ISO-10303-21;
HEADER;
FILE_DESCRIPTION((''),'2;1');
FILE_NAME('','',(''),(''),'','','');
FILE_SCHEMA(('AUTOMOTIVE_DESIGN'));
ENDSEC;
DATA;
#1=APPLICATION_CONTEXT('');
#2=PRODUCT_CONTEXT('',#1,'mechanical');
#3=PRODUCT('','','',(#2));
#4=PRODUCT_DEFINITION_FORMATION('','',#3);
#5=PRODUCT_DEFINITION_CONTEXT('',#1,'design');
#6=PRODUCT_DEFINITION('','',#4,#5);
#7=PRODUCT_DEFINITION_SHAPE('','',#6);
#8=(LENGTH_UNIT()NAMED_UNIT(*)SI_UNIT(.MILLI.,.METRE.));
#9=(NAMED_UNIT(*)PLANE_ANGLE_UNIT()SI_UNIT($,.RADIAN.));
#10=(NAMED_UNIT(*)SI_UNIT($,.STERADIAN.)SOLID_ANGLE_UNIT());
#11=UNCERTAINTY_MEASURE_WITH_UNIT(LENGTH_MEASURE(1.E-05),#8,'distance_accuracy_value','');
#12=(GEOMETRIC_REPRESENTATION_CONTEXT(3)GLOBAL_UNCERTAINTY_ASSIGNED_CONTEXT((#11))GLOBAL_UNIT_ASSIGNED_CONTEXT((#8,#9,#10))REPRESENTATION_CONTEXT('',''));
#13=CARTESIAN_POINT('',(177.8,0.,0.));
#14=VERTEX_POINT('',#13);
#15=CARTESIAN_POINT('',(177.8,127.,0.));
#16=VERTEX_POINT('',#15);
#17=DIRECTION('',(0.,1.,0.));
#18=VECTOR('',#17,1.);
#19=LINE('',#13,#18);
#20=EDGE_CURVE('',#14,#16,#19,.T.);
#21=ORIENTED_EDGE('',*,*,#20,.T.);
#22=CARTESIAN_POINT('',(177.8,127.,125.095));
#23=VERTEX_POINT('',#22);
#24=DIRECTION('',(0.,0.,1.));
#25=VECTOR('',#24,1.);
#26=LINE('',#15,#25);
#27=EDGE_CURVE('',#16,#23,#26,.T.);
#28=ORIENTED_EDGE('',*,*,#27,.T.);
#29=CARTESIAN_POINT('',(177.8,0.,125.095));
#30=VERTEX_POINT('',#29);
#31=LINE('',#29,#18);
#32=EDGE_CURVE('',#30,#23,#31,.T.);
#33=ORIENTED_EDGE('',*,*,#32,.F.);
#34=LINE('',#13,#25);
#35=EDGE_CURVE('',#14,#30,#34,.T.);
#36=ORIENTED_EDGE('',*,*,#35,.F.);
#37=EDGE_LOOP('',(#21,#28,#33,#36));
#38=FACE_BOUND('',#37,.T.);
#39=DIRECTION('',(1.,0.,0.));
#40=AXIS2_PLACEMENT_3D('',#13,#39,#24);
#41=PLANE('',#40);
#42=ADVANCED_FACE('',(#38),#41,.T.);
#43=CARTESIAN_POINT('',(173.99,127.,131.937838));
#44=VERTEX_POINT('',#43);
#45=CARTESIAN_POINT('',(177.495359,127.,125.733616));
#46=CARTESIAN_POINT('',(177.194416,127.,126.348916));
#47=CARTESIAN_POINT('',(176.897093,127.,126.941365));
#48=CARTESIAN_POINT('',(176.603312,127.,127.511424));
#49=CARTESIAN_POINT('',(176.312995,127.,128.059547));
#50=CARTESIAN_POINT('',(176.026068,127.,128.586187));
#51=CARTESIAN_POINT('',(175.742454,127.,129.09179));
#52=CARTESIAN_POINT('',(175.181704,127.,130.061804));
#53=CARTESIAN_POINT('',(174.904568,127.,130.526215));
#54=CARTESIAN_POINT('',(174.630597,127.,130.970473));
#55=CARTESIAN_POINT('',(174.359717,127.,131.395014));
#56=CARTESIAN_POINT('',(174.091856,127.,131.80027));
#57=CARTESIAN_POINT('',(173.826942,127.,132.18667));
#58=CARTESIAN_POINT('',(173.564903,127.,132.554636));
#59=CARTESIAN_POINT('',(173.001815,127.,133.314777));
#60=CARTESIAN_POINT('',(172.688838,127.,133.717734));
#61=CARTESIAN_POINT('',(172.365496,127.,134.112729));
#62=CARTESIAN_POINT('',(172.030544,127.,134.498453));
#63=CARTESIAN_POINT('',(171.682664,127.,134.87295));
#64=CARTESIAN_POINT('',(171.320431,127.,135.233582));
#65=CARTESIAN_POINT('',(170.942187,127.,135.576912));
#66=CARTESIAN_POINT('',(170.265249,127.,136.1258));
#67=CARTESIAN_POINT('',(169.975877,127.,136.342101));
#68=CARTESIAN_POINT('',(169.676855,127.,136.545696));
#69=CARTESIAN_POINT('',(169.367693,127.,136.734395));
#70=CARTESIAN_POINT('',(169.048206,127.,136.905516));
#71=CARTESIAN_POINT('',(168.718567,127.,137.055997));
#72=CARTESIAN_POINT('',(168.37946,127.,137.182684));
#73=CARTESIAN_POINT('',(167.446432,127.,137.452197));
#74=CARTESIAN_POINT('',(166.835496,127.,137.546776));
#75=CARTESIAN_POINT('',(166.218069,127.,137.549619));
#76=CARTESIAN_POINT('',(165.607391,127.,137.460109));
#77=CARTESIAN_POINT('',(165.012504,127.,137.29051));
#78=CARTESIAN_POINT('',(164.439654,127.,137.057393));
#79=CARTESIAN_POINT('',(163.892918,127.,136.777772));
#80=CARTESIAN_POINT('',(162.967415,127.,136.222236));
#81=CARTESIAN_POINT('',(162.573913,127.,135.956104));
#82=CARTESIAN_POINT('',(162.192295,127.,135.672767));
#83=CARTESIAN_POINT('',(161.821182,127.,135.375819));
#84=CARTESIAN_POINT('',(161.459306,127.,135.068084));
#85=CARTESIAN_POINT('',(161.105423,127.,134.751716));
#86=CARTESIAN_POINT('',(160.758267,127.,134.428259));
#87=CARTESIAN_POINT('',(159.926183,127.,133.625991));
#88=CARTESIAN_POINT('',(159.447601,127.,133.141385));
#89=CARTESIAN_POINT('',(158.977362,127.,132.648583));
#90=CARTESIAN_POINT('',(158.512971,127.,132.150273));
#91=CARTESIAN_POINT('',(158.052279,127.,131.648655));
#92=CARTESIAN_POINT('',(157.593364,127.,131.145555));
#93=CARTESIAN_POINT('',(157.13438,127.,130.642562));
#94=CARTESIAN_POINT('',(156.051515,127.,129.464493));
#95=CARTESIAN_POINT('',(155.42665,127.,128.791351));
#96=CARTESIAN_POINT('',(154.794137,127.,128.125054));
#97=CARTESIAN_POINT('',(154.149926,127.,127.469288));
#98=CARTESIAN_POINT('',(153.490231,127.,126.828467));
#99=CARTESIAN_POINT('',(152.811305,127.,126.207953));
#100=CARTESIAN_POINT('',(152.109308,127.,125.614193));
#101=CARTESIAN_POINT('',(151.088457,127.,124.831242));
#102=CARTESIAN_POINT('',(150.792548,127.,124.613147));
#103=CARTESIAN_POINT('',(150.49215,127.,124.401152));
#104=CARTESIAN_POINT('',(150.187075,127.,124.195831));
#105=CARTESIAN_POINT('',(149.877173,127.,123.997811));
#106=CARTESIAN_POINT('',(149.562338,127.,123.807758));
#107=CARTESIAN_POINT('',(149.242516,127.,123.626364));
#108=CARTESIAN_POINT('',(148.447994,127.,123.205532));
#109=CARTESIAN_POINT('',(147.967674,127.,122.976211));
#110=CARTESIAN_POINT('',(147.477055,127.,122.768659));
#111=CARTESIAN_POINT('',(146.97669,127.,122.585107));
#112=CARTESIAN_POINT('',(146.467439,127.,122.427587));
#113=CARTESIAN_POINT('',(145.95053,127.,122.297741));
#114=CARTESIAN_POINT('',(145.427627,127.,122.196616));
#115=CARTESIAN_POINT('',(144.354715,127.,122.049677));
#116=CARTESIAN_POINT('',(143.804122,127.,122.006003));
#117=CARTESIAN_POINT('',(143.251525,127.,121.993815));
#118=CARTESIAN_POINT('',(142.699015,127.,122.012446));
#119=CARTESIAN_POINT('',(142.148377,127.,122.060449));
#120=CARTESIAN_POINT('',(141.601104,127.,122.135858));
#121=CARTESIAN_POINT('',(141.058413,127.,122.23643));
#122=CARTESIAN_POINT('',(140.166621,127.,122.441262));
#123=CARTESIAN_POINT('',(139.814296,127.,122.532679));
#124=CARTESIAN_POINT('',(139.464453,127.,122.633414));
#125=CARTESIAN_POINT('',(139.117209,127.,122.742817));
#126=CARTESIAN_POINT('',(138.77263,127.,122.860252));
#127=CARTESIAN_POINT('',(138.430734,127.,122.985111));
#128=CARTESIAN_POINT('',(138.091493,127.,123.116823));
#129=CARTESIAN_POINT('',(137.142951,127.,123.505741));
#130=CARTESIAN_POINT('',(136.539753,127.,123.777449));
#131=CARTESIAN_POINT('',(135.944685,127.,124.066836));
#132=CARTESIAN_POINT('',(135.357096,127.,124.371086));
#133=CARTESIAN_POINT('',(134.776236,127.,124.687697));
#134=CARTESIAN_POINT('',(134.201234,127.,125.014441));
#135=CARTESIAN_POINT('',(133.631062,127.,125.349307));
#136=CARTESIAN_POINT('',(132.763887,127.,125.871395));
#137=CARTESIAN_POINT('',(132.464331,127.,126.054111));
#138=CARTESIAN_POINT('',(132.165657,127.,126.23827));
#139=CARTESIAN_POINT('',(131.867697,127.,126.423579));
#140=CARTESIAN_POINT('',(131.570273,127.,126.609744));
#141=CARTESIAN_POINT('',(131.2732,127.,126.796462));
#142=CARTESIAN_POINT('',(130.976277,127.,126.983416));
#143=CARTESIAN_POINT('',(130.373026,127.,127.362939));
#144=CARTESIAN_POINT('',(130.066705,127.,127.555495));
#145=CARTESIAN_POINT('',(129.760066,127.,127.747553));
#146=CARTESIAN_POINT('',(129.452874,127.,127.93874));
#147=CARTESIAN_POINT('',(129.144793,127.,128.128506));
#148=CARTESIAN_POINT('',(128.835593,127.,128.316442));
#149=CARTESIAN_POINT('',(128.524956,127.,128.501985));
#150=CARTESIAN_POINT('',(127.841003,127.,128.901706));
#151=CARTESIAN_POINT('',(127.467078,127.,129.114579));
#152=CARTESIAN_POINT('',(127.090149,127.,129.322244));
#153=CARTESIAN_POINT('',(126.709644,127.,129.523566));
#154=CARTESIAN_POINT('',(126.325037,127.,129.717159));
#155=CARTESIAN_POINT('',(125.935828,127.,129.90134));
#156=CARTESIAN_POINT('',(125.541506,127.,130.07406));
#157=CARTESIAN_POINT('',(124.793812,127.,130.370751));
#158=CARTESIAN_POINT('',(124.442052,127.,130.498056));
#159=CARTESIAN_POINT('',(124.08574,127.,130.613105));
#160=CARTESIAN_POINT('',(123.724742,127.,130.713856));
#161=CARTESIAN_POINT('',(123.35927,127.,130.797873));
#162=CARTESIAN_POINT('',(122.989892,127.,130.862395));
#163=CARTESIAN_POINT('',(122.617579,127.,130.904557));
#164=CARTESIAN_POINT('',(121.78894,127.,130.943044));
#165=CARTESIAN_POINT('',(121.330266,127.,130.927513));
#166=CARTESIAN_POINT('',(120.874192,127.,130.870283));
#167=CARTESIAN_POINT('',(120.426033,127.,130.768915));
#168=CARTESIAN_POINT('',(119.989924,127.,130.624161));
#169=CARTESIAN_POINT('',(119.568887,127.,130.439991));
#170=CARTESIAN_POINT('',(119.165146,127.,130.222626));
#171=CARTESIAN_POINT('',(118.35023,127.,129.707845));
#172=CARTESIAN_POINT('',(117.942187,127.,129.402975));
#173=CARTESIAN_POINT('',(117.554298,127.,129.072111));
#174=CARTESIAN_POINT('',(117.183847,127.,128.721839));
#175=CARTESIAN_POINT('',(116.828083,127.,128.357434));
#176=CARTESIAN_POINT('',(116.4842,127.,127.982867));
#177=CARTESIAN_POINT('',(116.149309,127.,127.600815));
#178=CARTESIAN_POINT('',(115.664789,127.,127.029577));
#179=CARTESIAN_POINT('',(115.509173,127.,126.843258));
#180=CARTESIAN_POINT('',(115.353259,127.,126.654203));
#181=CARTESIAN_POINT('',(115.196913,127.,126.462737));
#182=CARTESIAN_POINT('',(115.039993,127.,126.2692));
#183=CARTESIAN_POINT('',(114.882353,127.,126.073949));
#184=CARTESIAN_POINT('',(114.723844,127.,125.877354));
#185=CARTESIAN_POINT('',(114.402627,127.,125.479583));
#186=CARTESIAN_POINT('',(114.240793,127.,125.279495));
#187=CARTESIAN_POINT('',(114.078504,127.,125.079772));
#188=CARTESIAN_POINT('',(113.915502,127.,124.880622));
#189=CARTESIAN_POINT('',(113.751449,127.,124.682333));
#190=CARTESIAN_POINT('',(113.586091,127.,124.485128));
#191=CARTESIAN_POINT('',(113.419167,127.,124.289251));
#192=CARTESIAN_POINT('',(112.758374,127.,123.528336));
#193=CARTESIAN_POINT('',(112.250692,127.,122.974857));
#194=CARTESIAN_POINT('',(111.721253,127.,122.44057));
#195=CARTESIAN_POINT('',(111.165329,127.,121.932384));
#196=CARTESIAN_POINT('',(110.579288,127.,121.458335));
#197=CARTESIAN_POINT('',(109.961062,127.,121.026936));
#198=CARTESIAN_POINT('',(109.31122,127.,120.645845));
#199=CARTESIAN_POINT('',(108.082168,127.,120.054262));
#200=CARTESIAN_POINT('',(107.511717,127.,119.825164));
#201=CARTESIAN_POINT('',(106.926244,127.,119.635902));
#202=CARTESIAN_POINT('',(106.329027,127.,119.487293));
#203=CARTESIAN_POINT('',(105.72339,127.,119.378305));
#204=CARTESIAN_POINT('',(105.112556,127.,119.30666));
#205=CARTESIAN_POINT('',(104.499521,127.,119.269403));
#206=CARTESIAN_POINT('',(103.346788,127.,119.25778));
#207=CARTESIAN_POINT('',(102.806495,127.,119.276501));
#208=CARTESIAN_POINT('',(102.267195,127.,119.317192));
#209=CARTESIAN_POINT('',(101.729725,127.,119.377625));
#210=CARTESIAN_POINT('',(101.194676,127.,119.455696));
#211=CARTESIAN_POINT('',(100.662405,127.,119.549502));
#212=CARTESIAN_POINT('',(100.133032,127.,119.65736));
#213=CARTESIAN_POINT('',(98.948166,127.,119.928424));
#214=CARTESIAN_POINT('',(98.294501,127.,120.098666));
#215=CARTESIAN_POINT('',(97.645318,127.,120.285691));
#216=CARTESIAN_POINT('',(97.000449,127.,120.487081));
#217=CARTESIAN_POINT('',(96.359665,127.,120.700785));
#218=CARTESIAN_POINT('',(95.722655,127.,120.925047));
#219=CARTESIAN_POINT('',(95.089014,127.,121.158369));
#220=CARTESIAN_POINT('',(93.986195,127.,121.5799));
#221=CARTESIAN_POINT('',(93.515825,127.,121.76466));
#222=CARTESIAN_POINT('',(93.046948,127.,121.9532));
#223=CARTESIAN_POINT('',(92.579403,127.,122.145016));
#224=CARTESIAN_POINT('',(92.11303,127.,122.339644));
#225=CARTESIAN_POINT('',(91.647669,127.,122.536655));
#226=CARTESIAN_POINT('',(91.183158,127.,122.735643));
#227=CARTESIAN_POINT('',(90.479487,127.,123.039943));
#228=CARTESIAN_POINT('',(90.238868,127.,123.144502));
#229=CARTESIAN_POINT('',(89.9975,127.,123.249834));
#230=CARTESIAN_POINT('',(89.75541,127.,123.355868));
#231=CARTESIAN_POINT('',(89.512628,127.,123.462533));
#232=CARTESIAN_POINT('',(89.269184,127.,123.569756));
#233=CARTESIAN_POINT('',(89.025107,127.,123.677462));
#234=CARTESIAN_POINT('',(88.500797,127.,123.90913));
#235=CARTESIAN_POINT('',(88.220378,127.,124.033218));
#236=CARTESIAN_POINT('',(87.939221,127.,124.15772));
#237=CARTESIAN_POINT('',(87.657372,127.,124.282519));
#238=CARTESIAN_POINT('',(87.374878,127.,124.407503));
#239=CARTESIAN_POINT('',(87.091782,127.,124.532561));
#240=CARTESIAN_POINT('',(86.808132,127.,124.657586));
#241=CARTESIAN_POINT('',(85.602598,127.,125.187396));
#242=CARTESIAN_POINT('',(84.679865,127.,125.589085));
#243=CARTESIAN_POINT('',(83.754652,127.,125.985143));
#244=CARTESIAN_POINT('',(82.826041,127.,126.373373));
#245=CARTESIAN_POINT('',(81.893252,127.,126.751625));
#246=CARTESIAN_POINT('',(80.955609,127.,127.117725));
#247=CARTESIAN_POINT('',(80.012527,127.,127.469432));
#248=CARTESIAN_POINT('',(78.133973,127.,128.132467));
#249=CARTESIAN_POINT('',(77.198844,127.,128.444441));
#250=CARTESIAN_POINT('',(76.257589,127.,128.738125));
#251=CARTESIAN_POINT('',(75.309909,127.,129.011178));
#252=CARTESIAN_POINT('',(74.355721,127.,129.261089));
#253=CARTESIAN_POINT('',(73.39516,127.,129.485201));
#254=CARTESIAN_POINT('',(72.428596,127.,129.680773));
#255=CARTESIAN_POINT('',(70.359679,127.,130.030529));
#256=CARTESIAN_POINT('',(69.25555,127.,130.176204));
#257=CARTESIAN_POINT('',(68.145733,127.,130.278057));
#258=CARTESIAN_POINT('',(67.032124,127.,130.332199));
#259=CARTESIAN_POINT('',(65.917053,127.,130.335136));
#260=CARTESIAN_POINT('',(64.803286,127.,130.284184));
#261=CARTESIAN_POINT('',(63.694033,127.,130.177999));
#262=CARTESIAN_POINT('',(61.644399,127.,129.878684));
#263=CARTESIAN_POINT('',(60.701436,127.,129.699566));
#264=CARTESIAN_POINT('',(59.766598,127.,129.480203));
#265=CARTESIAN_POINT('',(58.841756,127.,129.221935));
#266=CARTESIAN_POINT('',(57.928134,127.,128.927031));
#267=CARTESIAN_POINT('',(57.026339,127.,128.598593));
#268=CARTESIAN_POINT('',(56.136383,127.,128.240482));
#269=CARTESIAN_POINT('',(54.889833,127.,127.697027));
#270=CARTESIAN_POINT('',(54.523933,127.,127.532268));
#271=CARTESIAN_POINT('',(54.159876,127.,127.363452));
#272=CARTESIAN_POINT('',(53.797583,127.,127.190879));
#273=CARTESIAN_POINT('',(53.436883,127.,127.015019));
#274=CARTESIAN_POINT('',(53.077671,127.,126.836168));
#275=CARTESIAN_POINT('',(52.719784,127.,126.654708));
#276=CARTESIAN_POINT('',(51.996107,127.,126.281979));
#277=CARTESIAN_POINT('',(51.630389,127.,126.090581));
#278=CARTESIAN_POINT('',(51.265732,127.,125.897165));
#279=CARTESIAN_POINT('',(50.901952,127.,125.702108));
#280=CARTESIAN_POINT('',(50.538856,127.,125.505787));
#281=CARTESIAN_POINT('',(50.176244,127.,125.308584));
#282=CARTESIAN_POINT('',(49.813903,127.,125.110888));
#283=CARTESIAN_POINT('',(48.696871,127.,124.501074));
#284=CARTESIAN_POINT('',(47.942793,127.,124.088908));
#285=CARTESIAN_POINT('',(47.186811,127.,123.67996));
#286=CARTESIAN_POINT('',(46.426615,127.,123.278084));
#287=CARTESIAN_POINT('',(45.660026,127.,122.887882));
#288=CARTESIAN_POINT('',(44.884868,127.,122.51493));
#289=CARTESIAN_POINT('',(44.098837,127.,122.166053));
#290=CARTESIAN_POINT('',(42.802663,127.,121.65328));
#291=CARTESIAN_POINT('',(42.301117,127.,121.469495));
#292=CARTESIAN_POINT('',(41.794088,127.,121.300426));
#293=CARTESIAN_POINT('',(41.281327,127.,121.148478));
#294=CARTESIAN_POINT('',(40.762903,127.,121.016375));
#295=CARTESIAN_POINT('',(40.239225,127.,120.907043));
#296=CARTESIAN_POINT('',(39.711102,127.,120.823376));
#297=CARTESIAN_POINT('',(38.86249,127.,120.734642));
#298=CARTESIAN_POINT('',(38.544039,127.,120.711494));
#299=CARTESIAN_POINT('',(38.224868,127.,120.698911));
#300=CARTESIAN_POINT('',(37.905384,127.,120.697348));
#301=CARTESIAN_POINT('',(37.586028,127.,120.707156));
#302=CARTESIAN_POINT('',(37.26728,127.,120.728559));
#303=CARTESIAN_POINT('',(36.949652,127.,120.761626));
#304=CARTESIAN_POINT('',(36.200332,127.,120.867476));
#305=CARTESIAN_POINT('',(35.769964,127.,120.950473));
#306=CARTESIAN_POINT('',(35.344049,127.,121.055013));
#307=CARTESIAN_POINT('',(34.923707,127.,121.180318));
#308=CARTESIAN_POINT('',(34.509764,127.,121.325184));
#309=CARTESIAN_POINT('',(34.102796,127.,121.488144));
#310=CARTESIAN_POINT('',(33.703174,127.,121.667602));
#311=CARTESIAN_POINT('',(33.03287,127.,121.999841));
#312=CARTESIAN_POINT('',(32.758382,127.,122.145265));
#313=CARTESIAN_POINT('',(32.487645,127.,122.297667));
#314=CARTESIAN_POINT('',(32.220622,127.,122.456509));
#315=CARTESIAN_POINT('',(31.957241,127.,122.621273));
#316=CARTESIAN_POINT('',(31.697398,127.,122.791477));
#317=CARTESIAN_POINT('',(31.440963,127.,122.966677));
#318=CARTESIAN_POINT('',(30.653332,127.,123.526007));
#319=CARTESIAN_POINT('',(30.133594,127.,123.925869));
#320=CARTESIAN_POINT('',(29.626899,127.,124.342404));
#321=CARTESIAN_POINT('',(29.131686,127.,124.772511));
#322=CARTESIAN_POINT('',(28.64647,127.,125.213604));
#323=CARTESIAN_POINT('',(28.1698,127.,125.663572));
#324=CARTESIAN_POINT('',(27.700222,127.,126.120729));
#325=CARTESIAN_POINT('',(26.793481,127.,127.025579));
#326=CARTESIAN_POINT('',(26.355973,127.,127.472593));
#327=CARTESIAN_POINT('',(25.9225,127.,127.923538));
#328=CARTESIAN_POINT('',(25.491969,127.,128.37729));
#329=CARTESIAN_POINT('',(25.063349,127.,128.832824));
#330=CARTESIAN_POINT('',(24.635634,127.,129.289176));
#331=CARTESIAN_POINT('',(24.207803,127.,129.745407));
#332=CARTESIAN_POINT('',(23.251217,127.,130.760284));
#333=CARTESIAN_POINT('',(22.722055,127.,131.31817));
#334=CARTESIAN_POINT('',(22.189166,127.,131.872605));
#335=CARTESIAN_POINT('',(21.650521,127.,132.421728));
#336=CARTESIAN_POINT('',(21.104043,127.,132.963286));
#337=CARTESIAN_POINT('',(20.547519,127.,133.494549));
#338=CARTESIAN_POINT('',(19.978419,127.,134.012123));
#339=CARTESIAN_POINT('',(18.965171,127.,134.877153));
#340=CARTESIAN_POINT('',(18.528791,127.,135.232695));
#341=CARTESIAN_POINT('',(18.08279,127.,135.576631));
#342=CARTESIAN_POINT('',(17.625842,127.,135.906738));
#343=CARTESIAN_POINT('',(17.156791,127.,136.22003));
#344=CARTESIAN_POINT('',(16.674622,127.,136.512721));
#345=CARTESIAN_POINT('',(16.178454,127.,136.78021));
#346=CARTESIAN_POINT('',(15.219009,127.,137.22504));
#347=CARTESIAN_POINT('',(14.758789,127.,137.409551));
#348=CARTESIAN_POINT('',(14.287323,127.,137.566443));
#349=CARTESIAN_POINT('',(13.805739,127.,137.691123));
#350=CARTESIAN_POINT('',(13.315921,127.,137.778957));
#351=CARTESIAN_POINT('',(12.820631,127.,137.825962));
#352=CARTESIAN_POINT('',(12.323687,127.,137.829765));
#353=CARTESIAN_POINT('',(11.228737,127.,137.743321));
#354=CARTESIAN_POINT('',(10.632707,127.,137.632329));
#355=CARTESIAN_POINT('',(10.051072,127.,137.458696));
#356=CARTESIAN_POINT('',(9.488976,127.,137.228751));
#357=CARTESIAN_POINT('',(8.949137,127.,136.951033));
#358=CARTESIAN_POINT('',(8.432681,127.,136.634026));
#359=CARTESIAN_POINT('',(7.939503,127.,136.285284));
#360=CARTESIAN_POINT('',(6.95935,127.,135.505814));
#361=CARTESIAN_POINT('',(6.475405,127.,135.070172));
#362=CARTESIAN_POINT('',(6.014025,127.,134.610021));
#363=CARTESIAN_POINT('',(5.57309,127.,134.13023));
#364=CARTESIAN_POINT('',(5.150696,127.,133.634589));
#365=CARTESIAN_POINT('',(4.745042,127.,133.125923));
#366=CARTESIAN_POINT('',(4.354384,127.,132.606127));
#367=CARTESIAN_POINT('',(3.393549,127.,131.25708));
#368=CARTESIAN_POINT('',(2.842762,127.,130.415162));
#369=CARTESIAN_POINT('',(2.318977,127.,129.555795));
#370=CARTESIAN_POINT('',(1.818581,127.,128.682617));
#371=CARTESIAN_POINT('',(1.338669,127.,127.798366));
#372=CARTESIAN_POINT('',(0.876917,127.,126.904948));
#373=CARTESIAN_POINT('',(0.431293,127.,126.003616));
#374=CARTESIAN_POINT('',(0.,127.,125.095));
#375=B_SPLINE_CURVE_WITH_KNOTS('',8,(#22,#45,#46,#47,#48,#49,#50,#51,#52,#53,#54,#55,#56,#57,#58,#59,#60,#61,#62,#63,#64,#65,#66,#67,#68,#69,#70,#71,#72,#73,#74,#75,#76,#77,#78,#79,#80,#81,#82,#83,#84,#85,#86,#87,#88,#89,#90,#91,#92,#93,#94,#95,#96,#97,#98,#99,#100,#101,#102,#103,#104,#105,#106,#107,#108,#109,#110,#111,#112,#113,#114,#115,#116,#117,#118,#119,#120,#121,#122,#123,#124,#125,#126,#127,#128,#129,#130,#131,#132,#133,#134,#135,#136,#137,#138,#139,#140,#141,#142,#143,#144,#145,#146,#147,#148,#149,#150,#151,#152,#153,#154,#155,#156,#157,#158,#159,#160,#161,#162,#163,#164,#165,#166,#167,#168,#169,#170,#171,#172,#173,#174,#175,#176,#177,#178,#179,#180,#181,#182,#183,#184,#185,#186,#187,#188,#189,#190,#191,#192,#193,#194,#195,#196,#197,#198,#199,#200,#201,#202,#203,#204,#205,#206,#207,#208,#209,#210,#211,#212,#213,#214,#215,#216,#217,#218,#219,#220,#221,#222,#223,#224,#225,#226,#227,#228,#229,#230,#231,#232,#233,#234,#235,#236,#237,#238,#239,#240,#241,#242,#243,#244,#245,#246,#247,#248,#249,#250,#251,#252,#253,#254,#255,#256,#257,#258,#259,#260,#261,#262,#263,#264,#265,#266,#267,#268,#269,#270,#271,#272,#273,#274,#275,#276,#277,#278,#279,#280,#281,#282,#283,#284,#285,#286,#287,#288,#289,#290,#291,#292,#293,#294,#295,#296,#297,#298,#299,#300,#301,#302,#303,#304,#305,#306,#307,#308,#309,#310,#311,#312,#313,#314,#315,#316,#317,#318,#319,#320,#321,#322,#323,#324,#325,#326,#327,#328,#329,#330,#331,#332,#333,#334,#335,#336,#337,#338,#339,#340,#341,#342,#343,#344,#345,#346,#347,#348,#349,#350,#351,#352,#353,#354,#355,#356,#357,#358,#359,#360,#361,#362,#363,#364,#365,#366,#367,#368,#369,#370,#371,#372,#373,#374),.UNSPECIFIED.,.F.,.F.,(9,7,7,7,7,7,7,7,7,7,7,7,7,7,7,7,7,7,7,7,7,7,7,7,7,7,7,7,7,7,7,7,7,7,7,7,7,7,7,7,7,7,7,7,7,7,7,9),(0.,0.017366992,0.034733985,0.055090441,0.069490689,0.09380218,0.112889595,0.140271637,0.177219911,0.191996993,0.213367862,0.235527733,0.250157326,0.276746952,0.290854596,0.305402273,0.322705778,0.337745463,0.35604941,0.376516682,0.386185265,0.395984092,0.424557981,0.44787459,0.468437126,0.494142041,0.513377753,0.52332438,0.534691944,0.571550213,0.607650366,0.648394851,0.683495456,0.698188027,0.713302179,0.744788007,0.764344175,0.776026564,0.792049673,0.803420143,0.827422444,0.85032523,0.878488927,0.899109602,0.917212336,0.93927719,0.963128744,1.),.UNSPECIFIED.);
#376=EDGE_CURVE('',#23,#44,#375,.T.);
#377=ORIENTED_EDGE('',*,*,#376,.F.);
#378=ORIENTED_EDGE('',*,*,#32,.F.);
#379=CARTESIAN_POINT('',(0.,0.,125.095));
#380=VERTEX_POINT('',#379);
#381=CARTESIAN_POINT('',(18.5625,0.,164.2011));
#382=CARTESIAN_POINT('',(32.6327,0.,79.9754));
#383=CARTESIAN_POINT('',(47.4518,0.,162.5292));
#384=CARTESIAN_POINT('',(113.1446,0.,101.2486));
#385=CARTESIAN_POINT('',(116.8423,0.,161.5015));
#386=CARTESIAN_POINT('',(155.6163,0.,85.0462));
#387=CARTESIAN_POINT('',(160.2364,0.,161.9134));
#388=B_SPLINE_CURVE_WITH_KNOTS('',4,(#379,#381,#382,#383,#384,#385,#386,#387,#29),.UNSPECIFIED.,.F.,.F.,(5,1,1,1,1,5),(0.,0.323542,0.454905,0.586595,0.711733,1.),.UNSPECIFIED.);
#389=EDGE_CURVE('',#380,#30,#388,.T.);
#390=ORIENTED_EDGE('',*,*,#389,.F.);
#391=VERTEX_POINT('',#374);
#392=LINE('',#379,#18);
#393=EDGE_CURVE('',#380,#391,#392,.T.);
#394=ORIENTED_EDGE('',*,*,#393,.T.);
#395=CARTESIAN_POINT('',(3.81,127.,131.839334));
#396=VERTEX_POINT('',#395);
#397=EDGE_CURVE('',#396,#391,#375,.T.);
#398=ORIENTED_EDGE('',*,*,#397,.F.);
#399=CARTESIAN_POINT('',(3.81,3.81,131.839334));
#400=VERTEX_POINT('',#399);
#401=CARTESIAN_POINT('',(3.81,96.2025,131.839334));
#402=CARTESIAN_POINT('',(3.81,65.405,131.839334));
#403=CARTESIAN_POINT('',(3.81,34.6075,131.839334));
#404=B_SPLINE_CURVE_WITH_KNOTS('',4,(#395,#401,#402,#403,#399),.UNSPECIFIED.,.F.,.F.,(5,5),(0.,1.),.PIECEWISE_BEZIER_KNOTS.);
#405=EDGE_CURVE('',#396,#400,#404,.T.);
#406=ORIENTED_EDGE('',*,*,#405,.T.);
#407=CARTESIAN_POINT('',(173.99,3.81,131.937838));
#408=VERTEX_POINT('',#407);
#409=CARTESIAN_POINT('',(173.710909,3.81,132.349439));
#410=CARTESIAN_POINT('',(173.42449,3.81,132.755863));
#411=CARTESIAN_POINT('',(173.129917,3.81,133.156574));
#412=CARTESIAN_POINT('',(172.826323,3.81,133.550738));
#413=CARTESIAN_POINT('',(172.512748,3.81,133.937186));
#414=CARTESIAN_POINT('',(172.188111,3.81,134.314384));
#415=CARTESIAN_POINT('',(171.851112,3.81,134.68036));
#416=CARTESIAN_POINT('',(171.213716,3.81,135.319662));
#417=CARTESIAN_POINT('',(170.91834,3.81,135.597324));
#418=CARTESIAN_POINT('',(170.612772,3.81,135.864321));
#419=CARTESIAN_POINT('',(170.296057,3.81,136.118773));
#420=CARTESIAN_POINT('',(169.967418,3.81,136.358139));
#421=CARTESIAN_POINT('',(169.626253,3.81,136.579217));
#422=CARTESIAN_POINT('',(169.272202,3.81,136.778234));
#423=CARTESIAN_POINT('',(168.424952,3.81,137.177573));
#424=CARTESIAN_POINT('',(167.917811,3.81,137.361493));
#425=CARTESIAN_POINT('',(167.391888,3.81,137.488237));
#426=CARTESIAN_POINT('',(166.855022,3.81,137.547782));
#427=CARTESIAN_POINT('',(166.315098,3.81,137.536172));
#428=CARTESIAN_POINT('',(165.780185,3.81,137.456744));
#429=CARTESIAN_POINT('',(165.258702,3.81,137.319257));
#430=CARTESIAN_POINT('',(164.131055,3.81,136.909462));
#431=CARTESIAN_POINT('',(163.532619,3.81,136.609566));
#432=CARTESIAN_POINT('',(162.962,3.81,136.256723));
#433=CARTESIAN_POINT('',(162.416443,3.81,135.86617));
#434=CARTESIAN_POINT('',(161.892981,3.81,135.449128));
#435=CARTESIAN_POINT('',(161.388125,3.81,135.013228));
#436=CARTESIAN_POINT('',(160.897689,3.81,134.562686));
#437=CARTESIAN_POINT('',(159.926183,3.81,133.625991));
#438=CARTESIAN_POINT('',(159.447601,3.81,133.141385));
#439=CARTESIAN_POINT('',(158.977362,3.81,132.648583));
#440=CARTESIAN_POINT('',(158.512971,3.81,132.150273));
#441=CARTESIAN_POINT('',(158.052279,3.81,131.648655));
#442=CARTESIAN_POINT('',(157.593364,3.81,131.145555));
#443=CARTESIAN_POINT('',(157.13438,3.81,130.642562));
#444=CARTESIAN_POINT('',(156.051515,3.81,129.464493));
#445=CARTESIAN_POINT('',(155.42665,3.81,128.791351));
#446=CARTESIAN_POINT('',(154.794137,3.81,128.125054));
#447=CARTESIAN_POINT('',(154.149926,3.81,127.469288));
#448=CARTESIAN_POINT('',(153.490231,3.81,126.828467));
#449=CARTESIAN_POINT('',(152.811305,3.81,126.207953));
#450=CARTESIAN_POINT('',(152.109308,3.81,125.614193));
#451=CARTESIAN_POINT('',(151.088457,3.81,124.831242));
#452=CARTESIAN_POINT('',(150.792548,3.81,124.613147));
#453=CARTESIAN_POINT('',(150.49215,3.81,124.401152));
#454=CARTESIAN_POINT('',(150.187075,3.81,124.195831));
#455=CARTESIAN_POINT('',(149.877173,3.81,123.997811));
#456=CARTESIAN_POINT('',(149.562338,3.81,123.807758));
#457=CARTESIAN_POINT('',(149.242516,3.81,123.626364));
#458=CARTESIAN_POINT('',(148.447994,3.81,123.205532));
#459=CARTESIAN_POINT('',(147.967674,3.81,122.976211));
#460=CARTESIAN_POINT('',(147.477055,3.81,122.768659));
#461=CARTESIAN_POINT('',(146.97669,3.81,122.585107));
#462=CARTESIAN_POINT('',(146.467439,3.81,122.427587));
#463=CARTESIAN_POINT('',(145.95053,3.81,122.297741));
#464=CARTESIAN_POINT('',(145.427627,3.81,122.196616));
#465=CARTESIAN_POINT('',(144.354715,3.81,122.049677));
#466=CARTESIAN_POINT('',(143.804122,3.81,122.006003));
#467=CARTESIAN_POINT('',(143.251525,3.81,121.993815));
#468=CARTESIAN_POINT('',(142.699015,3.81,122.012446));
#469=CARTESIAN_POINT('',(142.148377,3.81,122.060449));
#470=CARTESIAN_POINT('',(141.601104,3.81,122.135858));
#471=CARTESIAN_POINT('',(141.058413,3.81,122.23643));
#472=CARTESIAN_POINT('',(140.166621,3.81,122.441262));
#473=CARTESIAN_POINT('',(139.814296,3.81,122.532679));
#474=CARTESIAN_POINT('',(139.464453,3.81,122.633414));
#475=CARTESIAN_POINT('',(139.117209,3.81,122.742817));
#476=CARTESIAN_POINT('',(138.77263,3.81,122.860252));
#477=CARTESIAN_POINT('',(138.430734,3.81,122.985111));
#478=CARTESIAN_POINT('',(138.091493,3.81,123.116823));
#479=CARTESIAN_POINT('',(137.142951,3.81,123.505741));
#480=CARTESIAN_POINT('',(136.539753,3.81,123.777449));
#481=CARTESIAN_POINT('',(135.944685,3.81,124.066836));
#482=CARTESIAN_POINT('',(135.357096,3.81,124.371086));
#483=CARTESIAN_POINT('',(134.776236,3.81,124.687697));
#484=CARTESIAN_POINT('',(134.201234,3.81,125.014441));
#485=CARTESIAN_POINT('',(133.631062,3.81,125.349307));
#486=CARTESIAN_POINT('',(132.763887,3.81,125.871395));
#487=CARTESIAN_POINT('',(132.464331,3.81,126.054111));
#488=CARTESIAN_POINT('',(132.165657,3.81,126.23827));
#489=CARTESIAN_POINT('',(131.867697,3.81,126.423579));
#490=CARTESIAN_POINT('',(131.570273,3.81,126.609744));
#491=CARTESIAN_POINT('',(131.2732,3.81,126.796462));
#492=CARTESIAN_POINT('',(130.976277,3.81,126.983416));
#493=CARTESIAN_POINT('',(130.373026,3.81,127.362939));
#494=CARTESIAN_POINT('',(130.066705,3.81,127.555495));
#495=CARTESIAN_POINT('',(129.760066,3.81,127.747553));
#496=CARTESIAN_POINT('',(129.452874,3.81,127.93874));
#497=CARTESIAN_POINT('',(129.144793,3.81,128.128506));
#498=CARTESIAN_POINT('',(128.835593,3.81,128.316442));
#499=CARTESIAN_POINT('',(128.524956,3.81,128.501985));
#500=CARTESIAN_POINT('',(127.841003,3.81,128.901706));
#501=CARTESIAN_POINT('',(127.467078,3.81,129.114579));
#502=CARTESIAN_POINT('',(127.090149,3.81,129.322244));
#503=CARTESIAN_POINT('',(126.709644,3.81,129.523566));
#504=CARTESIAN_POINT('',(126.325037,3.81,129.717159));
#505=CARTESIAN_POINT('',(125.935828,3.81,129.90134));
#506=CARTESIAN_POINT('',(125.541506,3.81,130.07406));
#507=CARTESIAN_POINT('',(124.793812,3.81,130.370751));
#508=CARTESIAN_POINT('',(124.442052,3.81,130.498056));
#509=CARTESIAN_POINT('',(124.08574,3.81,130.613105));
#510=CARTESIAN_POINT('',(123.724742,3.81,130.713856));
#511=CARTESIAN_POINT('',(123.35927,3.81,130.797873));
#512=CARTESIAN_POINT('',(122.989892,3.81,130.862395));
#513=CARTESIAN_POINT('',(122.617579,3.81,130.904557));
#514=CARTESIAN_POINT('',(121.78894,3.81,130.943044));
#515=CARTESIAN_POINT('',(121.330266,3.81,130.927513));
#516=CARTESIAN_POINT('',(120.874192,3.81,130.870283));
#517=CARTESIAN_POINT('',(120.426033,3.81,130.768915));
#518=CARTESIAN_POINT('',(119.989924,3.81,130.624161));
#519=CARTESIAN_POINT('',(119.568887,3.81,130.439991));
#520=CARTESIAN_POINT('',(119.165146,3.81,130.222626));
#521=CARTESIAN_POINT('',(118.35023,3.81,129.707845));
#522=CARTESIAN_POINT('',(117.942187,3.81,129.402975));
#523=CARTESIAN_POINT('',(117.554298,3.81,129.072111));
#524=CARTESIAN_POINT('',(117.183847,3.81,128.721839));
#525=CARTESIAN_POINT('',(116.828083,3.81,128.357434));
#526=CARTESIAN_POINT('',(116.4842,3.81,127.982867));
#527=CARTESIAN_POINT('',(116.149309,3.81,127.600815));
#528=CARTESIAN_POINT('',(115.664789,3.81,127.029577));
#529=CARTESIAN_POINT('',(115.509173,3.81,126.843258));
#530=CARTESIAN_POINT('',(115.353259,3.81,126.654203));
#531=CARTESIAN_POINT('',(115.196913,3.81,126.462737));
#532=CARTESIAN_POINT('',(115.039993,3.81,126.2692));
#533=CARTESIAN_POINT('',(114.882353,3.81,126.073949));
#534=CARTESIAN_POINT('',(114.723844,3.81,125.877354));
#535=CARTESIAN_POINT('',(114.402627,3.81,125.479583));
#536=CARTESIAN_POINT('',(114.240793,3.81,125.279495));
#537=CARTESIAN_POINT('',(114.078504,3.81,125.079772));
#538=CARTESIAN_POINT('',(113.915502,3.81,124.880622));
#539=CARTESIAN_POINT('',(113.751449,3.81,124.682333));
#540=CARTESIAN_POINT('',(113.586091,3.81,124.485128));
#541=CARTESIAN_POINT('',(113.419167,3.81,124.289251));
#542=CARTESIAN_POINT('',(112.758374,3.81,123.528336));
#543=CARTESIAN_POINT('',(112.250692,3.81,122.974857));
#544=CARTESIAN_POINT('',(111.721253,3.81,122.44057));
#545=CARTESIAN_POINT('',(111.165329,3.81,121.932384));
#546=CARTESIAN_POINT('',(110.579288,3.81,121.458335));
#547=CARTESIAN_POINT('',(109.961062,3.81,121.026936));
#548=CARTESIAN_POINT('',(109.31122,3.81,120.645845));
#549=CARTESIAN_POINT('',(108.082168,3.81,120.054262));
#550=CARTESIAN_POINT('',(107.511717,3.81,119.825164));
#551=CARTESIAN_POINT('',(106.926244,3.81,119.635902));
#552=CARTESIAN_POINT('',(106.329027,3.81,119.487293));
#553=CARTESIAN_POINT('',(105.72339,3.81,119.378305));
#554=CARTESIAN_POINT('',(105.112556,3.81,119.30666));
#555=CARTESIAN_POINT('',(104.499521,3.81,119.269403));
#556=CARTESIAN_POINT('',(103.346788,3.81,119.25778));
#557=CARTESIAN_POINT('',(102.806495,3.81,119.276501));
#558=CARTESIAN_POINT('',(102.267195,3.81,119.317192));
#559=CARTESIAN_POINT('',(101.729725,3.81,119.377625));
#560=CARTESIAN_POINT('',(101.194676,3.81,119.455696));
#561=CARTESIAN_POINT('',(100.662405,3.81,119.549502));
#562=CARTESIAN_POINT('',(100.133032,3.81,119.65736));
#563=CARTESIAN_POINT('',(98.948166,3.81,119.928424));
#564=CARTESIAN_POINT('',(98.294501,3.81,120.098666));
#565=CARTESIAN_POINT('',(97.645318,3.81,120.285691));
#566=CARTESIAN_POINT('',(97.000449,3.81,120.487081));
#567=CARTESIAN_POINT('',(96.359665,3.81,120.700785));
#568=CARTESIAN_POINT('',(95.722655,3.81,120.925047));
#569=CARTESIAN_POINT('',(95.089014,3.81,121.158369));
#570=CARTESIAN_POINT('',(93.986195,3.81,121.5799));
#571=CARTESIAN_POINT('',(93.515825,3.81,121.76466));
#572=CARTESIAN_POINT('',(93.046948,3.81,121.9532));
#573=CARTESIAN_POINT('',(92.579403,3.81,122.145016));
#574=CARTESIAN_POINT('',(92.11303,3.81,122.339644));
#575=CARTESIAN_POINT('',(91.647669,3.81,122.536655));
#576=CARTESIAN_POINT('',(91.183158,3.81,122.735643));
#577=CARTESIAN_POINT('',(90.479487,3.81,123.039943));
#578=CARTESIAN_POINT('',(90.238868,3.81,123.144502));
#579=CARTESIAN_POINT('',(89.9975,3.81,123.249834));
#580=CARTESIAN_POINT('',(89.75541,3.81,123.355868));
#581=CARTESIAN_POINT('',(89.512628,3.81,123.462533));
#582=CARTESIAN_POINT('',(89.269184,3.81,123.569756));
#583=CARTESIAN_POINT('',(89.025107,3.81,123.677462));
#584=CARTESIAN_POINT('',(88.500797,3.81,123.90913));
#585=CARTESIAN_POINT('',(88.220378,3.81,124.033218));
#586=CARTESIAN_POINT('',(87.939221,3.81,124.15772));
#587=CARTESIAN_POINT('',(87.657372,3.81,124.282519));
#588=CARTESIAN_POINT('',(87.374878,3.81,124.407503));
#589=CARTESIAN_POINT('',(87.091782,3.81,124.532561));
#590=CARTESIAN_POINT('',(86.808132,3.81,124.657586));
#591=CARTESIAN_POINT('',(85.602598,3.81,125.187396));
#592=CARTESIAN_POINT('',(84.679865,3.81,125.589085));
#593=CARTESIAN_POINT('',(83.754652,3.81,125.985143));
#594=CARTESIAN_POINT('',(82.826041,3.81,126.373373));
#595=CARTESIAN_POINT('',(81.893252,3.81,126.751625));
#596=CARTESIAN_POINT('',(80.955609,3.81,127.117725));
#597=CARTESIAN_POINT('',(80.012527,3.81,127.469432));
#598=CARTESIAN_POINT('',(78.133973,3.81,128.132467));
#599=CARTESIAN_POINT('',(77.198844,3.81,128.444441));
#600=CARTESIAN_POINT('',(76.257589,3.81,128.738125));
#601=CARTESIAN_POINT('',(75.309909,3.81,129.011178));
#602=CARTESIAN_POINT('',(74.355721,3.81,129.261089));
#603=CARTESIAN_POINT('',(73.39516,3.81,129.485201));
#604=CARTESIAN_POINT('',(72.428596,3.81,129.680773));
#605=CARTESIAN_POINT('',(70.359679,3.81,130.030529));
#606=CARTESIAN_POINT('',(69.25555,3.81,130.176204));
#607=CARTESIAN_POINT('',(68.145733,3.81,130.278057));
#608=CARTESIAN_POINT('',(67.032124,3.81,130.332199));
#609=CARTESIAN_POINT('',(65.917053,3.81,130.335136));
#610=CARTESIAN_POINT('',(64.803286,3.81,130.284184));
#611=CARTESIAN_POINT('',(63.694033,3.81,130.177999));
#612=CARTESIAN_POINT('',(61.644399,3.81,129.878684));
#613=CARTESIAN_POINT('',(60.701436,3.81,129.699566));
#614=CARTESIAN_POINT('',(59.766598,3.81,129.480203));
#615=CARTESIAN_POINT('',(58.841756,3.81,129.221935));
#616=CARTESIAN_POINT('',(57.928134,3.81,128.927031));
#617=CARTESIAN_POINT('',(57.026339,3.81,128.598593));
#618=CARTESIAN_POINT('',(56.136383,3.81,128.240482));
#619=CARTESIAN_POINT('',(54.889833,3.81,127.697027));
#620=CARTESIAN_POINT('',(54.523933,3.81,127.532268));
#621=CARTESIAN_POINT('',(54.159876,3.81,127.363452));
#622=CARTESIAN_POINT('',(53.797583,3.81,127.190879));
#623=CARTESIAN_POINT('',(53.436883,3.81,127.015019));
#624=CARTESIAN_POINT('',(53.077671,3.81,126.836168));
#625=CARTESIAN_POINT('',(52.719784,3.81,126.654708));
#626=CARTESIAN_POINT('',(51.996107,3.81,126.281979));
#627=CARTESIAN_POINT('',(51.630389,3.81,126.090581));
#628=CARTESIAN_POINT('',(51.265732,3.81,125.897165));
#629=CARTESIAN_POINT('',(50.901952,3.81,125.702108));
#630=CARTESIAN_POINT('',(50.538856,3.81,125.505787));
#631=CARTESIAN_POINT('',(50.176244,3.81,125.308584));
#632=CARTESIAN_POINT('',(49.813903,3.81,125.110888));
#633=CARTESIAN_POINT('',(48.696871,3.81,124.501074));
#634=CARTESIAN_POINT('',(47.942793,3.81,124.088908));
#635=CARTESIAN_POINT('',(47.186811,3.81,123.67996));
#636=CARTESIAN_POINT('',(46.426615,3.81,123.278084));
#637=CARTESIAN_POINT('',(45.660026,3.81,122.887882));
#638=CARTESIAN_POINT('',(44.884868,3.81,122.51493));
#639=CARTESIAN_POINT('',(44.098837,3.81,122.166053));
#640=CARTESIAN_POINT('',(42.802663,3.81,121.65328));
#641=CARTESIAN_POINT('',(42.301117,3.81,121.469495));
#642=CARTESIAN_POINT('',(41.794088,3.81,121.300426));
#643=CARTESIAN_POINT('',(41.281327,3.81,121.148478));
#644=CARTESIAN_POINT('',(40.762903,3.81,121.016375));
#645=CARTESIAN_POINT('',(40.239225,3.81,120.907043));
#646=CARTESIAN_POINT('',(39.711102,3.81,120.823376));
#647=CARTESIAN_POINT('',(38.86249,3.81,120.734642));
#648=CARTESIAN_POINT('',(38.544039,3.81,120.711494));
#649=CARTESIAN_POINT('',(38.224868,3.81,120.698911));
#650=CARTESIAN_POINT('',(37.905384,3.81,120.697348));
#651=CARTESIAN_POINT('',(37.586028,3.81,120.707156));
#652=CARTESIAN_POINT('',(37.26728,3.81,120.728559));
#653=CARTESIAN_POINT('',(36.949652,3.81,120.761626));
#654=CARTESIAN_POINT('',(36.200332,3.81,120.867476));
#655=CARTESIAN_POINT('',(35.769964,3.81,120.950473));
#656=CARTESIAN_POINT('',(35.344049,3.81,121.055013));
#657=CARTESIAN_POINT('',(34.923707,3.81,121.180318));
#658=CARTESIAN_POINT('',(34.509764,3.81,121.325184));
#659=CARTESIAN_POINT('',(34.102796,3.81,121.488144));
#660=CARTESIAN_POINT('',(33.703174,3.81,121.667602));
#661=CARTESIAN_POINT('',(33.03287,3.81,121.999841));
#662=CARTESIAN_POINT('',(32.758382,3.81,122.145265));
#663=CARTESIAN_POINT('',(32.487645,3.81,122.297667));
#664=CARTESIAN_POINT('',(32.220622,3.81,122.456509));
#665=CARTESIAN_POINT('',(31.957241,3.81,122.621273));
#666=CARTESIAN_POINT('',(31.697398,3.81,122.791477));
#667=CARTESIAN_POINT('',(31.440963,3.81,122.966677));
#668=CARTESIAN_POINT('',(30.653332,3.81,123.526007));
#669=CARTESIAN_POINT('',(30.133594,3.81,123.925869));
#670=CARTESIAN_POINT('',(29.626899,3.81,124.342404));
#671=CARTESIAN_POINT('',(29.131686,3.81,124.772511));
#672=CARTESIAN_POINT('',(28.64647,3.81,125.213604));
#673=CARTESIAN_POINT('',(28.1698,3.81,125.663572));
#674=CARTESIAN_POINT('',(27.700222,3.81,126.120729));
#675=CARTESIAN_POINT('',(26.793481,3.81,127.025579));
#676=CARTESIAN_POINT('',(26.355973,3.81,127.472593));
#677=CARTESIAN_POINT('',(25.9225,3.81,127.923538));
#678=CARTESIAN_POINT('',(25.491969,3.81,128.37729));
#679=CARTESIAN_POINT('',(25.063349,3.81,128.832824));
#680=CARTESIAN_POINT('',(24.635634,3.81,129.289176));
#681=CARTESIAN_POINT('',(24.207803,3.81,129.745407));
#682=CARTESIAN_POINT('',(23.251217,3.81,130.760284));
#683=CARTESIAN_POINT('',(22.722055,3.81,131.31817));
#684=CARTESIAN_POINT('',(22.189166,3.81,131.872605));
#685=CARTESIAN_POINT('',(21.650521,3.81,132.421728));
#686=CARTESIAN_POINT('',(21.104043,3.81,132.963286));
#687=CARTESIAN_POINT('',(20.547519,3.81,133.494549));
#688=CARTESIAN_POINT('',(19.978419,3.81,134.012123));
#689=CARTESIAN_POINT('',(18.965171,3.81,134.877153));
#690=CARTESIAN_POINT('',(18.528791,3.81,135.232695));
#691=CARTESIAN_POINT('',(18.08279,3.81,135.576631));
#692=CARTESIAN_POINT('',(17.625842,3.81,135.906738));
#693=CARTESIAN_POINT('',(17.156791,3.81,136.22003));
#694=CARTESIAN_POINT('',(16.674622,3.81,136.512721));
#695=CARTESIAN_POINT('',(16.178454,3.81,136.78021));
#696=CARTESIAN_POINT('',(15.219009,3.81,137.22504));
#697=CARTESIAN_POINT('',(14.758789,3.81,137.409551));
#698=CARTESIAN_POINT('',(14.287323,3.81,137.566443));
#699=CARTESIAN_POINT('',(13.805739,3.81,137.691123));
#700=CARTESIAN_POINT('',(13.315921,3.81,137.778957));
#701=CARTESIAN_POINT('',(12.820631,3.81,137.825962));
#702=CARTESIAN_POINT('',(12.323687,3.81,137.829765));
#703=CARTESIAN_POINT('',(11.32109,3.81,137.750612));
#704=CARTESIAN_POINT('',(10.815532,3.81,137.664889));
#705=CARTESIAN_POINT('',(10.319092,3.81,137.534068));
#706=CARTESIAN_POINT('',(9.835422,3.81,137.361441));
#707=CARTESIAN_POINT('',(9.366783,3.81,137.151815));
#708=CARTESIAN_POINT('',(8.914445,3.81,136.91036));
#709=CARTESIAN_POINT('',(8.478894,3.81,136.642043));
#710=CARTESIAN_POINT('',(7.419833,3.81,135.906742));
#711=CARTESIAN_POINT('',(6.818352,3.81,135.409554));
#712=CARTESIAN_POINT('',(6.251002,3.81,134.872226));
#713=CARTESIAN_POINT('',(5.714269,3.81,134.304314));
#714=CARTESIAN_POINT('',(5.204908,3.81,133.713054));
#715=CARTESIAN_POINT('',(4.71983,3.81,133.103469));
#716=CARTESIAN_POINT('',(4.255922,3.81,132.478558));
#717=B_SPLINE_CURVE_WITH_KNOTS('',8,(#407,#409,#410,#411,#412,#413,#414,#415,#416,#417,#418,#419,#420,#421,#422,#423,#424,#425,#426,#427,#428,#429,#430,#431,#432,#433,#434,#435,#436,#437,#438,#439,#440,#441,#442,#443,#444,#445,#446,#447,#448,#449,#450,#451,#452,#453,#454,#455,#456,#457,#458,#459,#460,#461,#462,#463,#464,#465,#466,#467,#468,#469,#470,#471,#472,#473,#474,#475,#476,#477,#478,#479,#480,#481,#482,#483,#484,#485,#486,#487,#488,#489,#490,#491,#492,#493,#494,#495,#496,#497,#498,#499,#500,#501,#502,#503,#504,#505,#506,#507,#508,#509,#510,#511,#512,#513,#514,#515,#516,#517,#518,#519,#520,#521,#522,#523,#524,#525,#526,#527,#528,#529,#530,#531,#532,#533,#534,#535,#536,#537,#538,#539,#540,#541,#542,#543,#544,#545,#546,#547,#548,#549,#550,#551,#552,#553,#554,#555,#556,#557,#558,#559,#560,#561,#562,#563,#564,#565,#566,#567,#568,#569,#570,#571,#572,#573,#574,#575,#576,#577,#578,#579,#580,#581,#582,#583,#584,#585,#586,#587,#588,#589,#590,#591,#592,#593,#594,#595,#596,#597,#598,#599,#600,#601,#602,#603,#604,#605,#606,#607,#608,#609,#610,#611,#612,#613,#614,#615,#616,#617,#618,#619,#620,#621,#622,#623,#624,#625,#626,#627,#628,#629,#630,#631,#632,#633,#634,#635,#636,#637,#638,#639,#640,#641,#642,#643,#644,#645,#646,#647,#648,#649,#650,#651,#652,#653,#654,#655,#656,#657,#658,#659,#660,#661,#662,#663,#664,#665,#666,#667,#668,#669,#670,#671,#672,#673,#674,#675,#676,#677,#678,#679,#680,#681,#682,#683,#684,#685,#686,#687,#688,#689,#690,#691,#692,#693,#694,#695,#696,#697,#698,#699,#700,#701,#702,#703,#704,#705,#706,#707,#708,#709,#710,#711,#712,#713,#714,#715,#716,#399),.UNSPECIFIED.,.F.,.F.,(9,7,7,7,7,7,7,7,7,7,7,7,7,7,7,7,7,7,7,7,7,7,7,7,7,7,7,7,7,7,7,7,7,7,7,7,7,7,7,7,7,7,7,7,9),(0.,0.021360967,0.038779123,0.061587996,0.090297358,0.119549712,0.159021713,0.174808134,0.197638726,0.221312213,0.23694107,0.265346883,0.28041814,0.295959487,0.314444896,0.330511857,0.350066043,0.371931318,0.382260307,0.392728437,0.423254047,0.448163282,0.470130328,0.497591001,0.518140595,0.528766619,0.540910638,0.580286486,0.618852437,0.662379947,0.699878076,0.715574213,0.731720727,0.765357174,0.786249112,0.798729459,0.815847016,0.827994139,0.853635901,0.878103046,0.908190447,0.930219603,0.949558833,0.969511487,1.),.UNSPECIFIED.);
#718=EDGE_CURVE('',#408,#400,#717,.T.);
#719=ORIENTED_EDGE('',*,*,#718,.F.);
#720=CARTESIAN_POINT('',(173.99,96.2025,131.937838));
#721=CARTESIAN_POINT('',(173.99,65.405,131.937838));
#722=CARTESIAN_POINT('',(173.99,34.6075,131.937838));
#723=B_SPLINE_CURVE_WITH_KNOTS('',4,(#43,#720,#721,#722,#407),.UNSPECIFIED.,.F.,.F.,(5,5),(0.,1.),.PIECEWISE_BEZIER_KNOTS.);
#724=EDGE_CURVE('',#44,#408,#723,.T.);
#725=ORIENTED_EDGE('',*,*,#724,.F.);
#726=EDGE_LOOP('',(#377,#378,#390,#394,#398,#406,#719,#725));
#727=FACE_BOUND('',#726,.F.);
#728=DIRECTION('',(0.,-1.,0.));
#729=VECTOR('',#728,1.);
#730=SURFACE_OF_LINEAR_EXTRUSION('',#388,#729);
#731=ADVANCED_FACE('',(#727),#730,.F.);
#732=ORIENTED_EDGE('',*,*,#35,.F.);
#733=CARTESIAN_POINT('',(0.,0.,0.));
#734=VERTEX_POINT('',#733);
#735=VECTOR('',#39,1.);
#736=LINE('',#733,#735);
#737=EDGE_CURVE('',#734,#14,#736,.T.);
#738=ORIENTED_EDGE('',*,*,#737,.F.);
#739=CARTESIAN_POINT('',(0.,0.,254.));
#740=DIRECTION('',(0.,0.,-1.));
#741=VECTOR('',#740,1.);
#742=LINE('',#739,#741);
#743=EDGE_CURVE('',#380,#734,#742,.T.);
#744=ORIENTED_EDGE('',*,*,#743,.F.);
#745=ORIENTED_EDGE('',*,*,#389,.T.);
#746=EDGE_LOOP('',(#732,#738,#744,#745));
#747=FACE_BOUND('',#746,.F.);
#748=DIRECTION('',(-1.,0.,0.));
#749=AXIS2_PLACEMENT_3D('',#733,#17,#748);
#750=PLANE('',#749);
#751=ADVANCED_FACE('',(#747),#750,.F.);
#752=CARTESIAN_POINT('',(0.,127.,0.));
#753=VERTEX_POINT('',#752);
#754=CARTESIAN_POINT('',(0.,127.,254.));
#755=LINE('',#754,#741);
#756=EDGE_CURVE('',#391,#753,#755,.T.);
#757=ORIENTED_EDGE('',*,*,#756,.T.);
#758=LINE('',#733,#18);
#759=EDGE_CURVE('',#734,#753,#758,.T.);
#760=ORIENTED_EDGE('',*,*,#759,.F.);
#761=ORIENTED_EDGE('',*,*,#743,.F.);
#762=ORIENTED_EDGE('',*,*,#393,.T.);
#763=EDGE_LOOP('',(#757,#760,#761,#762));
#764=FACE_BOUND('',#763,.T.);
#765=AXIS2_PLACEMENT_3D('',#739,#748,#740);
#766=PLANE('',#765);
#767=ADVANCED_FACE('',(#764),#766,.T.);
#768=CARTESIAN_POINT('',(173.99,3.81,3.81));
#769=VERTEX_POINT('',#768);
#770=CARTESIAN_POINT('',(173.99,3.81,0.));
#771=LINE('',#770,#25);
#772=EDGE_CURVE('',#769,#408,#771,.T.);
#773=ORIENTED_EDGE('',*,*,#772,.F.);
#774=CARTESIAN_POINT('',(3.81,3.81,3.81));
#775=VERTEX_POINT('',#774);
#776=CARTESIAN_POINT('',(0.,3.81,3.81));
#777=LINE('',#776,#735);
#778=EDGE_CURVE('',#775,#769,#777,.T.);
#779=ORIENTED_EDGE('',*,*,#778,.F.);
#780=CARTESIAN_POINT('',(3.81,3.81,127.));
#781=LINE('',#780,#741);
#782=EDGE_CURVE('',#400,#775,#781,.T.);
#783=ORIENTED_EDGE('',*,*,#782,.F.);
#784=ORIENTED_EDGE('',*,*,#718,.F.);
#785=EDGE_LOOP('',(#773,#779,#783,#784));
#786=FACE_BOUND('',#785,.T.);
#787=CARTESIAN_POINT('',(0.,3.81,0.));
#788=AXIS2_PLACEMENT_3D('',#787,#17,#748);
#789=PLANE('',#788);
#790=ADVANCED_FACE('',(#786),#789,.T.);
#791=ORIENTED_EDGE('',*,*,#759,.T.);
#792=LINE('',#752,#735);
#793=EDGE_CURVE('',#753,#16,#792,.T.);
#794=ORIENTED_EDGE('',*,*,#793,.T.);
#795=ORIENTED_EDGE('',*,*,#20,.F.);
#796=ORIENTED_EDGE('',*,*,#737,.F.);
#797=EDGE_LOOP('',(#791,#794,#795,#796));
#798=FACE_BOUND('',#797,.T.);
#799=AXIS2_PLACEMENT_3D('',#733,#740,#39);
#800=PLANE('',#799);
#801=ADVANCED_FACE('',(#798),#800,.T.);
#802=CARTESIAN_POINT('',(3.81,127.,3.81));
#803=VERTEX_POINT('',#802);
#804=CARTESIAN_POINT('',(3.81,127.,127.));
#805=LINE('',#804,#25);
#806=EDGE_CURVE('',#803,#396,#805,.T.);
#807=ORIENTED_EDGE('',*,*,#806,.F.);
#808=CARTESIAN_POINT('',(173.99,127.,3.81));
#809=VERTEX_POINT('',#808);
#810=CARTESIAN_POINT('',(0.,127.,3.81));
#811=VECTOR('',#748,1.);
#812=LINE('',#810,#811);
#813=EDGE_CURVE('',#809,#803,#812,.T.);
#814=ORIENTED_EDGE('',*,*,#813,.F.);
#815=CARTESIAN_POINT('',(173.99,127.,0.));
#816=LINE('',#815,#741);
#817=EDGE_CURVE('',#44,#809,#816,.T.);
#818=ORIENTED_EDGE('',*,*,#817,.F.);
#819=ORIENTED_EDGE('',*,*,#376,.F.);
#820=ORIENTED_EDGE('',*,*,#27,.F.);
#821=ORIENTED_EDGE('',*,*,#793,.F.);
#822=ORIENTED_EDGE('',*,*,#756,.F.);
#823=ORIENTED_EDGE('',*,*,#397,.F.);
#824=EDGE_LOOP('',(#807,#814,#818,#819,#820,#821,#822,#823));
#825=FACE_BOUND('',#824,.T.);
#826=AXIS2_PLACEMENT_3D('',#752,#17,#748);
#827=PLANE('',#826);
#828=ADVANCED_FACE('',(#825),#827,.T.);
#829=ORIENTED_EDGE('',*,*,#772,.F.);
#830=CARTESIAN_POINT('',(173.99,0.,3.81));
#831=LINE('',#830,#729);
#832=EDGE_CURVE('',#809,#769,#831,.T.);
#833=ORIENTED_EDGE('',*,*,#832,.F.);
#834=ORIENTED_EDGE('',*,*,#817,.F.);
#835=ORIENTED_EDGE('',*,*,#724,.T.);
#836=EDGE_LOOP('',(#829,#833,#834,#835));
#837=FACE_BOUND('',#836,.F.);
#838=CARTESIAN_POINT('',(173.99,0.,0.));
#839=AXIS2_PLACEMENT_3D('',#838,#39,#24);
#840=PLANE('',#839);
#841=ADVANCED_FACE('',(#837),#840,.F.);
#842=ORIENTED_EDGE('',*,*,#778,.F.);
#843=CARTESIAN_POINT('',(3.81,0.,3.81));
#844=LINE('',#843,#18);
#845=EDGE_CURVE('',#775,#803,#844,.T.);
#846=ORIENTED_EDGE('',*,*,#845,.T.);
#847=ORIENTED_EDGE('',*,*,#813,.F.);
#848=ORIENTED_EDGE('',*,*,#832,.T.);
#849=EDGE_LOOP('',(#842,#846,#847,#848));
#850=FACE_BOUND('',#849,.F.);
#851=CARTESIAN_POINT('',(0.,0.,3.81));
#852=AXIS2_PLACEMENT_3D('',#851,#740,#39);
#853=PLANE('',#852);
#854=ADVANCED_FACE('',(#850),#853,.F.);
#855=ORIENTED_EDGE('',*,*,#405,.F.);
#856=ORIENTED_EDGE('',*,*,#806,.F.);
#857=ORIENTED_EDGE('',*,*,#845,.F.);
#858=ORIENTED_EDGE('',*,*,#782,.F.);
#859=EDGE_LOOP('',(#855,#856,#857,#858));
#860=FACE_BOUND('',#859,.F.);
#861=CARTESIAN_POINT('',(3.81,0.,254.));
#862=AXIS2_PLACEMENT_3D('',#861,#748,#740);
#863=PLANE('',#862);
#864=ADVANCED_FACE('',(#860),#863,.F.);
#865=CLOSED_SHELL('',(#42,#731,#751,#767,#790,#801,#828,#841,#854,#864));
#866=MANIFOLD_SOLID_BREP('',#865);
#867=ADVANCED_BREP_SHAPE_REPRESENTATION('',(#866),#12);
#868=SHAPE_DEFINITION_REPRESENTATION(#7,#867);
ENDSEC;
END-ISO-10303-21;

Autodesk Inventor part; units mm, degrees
ref_plane "YZ Plane" through (0, 0, 0) normal (1, 0, 0) x (0, 1, 0)
ref_plane "XZ Plane" through (0, 0, 0) normal (0, 1, 0) x (-1, 0, 0)
ref_plane "XY Plane" through (0, 0, 0) normal (0, 0, 1) x (1, 0, 0)
sketch "Sketch1" plane through (0, 0, 0) normal (0, 1, 0) x (-1, 0, 0)
  line L0 (0, 0) -> (-177.8, 0)
  line L1 (-177.8, 0) -> (-177.8, 254)
  line L2 (-177.8, 254) -> (0, 254)
  line L3 (0, 254) -> (0, 0)
  dimension "d0" = 177.8
  dimension "d1" = 254
extrude "Extrusion1" add sketch "Sketch1" along normal blind 127
shell "Shell1" thickness 3.81 removed faces 1 at (118.5333, 127, 169.3333)
sketch "Sketch2" plane through (0, 0, 254) normal (0, 0, 1) x (1, 0, 0)
  line L0 (0, 0) -> (177.8, 0) projected
  line L1 (177.8, 0) -> (177.8, 127) projected
  line L2 (0, 127) -> (177.8, 127) projected
  line L3 (0, 0) -> (0, 127) projected
extrude "Extrusion2" cut sketch "Sketch2" against normal up to surface (3.81 mm away)
sketch "Sketch3" plane through (3.81, 3.81, 3.81) normal (0, 0, 1) x (1, 0, 0)
  line L0 (170.18, 0) -> (0, 0) projected
  line L1 (170.18, 0) -> (170.18, 123.19) projected
  line L2 (0, 123.19) -> (170.18, 123.19) projected
  line L3 (0, 0) -> (0, 123.19) projected
  point P0 (-3.81, -3.81)
sketch "Sketch4" plane through (0, 0, 0) normal (0, -1, 0) x (1, 0, 0)
  line L0 (0, 0) -> (0, 250.19) projected
  line L1 (177.8, 0) -> (0, 0) projected
  line L2 (177.8, 250.19) -> (177.8, 0) projected
  line L3 (177.8, 250.19) -> (0, 250.19) projected
  line L4 (0, 0) -> (0, 250.19) projected
  line L5 (177.8, 0) -> (0, 0) projected
  line L6 (177.8, 250.19) -> (177.8, 0) projected
  line L7 (177.8, 250.19) -> (177.8, 0) projected
  spline S0 degree 4 poles (0, 125.095) (18.5625, 164.2011) (32.6327, 79.9754) (47.4518, 162.5292) (113.1446, 101.2486) (116.8423, 161.5015) (155.6163, 85.0462) (160.2364, 161.9134) (177.8, 125.095) knots 0 0 0 0 0 0.323542 0.454905 0.586595 0.711733 1 1 1 1 1
  point P0 (22.8108, 131.2197)
  point P1 (39.2238, 120.7725)
  point P2 (67.4765, 130.2672)
  point P3 (109.2766, 120.6567)
  point P4 (120.9714, 130.8461)
  point P5 (139.1504, 122.7409)
  point P6 (157.2136, 130.7303)
extrude "Extrusion3" cut sketch "Sketch4" against normal through all contours L0 L3 L2 S0
properties part number "Component box Bottom tall R"
